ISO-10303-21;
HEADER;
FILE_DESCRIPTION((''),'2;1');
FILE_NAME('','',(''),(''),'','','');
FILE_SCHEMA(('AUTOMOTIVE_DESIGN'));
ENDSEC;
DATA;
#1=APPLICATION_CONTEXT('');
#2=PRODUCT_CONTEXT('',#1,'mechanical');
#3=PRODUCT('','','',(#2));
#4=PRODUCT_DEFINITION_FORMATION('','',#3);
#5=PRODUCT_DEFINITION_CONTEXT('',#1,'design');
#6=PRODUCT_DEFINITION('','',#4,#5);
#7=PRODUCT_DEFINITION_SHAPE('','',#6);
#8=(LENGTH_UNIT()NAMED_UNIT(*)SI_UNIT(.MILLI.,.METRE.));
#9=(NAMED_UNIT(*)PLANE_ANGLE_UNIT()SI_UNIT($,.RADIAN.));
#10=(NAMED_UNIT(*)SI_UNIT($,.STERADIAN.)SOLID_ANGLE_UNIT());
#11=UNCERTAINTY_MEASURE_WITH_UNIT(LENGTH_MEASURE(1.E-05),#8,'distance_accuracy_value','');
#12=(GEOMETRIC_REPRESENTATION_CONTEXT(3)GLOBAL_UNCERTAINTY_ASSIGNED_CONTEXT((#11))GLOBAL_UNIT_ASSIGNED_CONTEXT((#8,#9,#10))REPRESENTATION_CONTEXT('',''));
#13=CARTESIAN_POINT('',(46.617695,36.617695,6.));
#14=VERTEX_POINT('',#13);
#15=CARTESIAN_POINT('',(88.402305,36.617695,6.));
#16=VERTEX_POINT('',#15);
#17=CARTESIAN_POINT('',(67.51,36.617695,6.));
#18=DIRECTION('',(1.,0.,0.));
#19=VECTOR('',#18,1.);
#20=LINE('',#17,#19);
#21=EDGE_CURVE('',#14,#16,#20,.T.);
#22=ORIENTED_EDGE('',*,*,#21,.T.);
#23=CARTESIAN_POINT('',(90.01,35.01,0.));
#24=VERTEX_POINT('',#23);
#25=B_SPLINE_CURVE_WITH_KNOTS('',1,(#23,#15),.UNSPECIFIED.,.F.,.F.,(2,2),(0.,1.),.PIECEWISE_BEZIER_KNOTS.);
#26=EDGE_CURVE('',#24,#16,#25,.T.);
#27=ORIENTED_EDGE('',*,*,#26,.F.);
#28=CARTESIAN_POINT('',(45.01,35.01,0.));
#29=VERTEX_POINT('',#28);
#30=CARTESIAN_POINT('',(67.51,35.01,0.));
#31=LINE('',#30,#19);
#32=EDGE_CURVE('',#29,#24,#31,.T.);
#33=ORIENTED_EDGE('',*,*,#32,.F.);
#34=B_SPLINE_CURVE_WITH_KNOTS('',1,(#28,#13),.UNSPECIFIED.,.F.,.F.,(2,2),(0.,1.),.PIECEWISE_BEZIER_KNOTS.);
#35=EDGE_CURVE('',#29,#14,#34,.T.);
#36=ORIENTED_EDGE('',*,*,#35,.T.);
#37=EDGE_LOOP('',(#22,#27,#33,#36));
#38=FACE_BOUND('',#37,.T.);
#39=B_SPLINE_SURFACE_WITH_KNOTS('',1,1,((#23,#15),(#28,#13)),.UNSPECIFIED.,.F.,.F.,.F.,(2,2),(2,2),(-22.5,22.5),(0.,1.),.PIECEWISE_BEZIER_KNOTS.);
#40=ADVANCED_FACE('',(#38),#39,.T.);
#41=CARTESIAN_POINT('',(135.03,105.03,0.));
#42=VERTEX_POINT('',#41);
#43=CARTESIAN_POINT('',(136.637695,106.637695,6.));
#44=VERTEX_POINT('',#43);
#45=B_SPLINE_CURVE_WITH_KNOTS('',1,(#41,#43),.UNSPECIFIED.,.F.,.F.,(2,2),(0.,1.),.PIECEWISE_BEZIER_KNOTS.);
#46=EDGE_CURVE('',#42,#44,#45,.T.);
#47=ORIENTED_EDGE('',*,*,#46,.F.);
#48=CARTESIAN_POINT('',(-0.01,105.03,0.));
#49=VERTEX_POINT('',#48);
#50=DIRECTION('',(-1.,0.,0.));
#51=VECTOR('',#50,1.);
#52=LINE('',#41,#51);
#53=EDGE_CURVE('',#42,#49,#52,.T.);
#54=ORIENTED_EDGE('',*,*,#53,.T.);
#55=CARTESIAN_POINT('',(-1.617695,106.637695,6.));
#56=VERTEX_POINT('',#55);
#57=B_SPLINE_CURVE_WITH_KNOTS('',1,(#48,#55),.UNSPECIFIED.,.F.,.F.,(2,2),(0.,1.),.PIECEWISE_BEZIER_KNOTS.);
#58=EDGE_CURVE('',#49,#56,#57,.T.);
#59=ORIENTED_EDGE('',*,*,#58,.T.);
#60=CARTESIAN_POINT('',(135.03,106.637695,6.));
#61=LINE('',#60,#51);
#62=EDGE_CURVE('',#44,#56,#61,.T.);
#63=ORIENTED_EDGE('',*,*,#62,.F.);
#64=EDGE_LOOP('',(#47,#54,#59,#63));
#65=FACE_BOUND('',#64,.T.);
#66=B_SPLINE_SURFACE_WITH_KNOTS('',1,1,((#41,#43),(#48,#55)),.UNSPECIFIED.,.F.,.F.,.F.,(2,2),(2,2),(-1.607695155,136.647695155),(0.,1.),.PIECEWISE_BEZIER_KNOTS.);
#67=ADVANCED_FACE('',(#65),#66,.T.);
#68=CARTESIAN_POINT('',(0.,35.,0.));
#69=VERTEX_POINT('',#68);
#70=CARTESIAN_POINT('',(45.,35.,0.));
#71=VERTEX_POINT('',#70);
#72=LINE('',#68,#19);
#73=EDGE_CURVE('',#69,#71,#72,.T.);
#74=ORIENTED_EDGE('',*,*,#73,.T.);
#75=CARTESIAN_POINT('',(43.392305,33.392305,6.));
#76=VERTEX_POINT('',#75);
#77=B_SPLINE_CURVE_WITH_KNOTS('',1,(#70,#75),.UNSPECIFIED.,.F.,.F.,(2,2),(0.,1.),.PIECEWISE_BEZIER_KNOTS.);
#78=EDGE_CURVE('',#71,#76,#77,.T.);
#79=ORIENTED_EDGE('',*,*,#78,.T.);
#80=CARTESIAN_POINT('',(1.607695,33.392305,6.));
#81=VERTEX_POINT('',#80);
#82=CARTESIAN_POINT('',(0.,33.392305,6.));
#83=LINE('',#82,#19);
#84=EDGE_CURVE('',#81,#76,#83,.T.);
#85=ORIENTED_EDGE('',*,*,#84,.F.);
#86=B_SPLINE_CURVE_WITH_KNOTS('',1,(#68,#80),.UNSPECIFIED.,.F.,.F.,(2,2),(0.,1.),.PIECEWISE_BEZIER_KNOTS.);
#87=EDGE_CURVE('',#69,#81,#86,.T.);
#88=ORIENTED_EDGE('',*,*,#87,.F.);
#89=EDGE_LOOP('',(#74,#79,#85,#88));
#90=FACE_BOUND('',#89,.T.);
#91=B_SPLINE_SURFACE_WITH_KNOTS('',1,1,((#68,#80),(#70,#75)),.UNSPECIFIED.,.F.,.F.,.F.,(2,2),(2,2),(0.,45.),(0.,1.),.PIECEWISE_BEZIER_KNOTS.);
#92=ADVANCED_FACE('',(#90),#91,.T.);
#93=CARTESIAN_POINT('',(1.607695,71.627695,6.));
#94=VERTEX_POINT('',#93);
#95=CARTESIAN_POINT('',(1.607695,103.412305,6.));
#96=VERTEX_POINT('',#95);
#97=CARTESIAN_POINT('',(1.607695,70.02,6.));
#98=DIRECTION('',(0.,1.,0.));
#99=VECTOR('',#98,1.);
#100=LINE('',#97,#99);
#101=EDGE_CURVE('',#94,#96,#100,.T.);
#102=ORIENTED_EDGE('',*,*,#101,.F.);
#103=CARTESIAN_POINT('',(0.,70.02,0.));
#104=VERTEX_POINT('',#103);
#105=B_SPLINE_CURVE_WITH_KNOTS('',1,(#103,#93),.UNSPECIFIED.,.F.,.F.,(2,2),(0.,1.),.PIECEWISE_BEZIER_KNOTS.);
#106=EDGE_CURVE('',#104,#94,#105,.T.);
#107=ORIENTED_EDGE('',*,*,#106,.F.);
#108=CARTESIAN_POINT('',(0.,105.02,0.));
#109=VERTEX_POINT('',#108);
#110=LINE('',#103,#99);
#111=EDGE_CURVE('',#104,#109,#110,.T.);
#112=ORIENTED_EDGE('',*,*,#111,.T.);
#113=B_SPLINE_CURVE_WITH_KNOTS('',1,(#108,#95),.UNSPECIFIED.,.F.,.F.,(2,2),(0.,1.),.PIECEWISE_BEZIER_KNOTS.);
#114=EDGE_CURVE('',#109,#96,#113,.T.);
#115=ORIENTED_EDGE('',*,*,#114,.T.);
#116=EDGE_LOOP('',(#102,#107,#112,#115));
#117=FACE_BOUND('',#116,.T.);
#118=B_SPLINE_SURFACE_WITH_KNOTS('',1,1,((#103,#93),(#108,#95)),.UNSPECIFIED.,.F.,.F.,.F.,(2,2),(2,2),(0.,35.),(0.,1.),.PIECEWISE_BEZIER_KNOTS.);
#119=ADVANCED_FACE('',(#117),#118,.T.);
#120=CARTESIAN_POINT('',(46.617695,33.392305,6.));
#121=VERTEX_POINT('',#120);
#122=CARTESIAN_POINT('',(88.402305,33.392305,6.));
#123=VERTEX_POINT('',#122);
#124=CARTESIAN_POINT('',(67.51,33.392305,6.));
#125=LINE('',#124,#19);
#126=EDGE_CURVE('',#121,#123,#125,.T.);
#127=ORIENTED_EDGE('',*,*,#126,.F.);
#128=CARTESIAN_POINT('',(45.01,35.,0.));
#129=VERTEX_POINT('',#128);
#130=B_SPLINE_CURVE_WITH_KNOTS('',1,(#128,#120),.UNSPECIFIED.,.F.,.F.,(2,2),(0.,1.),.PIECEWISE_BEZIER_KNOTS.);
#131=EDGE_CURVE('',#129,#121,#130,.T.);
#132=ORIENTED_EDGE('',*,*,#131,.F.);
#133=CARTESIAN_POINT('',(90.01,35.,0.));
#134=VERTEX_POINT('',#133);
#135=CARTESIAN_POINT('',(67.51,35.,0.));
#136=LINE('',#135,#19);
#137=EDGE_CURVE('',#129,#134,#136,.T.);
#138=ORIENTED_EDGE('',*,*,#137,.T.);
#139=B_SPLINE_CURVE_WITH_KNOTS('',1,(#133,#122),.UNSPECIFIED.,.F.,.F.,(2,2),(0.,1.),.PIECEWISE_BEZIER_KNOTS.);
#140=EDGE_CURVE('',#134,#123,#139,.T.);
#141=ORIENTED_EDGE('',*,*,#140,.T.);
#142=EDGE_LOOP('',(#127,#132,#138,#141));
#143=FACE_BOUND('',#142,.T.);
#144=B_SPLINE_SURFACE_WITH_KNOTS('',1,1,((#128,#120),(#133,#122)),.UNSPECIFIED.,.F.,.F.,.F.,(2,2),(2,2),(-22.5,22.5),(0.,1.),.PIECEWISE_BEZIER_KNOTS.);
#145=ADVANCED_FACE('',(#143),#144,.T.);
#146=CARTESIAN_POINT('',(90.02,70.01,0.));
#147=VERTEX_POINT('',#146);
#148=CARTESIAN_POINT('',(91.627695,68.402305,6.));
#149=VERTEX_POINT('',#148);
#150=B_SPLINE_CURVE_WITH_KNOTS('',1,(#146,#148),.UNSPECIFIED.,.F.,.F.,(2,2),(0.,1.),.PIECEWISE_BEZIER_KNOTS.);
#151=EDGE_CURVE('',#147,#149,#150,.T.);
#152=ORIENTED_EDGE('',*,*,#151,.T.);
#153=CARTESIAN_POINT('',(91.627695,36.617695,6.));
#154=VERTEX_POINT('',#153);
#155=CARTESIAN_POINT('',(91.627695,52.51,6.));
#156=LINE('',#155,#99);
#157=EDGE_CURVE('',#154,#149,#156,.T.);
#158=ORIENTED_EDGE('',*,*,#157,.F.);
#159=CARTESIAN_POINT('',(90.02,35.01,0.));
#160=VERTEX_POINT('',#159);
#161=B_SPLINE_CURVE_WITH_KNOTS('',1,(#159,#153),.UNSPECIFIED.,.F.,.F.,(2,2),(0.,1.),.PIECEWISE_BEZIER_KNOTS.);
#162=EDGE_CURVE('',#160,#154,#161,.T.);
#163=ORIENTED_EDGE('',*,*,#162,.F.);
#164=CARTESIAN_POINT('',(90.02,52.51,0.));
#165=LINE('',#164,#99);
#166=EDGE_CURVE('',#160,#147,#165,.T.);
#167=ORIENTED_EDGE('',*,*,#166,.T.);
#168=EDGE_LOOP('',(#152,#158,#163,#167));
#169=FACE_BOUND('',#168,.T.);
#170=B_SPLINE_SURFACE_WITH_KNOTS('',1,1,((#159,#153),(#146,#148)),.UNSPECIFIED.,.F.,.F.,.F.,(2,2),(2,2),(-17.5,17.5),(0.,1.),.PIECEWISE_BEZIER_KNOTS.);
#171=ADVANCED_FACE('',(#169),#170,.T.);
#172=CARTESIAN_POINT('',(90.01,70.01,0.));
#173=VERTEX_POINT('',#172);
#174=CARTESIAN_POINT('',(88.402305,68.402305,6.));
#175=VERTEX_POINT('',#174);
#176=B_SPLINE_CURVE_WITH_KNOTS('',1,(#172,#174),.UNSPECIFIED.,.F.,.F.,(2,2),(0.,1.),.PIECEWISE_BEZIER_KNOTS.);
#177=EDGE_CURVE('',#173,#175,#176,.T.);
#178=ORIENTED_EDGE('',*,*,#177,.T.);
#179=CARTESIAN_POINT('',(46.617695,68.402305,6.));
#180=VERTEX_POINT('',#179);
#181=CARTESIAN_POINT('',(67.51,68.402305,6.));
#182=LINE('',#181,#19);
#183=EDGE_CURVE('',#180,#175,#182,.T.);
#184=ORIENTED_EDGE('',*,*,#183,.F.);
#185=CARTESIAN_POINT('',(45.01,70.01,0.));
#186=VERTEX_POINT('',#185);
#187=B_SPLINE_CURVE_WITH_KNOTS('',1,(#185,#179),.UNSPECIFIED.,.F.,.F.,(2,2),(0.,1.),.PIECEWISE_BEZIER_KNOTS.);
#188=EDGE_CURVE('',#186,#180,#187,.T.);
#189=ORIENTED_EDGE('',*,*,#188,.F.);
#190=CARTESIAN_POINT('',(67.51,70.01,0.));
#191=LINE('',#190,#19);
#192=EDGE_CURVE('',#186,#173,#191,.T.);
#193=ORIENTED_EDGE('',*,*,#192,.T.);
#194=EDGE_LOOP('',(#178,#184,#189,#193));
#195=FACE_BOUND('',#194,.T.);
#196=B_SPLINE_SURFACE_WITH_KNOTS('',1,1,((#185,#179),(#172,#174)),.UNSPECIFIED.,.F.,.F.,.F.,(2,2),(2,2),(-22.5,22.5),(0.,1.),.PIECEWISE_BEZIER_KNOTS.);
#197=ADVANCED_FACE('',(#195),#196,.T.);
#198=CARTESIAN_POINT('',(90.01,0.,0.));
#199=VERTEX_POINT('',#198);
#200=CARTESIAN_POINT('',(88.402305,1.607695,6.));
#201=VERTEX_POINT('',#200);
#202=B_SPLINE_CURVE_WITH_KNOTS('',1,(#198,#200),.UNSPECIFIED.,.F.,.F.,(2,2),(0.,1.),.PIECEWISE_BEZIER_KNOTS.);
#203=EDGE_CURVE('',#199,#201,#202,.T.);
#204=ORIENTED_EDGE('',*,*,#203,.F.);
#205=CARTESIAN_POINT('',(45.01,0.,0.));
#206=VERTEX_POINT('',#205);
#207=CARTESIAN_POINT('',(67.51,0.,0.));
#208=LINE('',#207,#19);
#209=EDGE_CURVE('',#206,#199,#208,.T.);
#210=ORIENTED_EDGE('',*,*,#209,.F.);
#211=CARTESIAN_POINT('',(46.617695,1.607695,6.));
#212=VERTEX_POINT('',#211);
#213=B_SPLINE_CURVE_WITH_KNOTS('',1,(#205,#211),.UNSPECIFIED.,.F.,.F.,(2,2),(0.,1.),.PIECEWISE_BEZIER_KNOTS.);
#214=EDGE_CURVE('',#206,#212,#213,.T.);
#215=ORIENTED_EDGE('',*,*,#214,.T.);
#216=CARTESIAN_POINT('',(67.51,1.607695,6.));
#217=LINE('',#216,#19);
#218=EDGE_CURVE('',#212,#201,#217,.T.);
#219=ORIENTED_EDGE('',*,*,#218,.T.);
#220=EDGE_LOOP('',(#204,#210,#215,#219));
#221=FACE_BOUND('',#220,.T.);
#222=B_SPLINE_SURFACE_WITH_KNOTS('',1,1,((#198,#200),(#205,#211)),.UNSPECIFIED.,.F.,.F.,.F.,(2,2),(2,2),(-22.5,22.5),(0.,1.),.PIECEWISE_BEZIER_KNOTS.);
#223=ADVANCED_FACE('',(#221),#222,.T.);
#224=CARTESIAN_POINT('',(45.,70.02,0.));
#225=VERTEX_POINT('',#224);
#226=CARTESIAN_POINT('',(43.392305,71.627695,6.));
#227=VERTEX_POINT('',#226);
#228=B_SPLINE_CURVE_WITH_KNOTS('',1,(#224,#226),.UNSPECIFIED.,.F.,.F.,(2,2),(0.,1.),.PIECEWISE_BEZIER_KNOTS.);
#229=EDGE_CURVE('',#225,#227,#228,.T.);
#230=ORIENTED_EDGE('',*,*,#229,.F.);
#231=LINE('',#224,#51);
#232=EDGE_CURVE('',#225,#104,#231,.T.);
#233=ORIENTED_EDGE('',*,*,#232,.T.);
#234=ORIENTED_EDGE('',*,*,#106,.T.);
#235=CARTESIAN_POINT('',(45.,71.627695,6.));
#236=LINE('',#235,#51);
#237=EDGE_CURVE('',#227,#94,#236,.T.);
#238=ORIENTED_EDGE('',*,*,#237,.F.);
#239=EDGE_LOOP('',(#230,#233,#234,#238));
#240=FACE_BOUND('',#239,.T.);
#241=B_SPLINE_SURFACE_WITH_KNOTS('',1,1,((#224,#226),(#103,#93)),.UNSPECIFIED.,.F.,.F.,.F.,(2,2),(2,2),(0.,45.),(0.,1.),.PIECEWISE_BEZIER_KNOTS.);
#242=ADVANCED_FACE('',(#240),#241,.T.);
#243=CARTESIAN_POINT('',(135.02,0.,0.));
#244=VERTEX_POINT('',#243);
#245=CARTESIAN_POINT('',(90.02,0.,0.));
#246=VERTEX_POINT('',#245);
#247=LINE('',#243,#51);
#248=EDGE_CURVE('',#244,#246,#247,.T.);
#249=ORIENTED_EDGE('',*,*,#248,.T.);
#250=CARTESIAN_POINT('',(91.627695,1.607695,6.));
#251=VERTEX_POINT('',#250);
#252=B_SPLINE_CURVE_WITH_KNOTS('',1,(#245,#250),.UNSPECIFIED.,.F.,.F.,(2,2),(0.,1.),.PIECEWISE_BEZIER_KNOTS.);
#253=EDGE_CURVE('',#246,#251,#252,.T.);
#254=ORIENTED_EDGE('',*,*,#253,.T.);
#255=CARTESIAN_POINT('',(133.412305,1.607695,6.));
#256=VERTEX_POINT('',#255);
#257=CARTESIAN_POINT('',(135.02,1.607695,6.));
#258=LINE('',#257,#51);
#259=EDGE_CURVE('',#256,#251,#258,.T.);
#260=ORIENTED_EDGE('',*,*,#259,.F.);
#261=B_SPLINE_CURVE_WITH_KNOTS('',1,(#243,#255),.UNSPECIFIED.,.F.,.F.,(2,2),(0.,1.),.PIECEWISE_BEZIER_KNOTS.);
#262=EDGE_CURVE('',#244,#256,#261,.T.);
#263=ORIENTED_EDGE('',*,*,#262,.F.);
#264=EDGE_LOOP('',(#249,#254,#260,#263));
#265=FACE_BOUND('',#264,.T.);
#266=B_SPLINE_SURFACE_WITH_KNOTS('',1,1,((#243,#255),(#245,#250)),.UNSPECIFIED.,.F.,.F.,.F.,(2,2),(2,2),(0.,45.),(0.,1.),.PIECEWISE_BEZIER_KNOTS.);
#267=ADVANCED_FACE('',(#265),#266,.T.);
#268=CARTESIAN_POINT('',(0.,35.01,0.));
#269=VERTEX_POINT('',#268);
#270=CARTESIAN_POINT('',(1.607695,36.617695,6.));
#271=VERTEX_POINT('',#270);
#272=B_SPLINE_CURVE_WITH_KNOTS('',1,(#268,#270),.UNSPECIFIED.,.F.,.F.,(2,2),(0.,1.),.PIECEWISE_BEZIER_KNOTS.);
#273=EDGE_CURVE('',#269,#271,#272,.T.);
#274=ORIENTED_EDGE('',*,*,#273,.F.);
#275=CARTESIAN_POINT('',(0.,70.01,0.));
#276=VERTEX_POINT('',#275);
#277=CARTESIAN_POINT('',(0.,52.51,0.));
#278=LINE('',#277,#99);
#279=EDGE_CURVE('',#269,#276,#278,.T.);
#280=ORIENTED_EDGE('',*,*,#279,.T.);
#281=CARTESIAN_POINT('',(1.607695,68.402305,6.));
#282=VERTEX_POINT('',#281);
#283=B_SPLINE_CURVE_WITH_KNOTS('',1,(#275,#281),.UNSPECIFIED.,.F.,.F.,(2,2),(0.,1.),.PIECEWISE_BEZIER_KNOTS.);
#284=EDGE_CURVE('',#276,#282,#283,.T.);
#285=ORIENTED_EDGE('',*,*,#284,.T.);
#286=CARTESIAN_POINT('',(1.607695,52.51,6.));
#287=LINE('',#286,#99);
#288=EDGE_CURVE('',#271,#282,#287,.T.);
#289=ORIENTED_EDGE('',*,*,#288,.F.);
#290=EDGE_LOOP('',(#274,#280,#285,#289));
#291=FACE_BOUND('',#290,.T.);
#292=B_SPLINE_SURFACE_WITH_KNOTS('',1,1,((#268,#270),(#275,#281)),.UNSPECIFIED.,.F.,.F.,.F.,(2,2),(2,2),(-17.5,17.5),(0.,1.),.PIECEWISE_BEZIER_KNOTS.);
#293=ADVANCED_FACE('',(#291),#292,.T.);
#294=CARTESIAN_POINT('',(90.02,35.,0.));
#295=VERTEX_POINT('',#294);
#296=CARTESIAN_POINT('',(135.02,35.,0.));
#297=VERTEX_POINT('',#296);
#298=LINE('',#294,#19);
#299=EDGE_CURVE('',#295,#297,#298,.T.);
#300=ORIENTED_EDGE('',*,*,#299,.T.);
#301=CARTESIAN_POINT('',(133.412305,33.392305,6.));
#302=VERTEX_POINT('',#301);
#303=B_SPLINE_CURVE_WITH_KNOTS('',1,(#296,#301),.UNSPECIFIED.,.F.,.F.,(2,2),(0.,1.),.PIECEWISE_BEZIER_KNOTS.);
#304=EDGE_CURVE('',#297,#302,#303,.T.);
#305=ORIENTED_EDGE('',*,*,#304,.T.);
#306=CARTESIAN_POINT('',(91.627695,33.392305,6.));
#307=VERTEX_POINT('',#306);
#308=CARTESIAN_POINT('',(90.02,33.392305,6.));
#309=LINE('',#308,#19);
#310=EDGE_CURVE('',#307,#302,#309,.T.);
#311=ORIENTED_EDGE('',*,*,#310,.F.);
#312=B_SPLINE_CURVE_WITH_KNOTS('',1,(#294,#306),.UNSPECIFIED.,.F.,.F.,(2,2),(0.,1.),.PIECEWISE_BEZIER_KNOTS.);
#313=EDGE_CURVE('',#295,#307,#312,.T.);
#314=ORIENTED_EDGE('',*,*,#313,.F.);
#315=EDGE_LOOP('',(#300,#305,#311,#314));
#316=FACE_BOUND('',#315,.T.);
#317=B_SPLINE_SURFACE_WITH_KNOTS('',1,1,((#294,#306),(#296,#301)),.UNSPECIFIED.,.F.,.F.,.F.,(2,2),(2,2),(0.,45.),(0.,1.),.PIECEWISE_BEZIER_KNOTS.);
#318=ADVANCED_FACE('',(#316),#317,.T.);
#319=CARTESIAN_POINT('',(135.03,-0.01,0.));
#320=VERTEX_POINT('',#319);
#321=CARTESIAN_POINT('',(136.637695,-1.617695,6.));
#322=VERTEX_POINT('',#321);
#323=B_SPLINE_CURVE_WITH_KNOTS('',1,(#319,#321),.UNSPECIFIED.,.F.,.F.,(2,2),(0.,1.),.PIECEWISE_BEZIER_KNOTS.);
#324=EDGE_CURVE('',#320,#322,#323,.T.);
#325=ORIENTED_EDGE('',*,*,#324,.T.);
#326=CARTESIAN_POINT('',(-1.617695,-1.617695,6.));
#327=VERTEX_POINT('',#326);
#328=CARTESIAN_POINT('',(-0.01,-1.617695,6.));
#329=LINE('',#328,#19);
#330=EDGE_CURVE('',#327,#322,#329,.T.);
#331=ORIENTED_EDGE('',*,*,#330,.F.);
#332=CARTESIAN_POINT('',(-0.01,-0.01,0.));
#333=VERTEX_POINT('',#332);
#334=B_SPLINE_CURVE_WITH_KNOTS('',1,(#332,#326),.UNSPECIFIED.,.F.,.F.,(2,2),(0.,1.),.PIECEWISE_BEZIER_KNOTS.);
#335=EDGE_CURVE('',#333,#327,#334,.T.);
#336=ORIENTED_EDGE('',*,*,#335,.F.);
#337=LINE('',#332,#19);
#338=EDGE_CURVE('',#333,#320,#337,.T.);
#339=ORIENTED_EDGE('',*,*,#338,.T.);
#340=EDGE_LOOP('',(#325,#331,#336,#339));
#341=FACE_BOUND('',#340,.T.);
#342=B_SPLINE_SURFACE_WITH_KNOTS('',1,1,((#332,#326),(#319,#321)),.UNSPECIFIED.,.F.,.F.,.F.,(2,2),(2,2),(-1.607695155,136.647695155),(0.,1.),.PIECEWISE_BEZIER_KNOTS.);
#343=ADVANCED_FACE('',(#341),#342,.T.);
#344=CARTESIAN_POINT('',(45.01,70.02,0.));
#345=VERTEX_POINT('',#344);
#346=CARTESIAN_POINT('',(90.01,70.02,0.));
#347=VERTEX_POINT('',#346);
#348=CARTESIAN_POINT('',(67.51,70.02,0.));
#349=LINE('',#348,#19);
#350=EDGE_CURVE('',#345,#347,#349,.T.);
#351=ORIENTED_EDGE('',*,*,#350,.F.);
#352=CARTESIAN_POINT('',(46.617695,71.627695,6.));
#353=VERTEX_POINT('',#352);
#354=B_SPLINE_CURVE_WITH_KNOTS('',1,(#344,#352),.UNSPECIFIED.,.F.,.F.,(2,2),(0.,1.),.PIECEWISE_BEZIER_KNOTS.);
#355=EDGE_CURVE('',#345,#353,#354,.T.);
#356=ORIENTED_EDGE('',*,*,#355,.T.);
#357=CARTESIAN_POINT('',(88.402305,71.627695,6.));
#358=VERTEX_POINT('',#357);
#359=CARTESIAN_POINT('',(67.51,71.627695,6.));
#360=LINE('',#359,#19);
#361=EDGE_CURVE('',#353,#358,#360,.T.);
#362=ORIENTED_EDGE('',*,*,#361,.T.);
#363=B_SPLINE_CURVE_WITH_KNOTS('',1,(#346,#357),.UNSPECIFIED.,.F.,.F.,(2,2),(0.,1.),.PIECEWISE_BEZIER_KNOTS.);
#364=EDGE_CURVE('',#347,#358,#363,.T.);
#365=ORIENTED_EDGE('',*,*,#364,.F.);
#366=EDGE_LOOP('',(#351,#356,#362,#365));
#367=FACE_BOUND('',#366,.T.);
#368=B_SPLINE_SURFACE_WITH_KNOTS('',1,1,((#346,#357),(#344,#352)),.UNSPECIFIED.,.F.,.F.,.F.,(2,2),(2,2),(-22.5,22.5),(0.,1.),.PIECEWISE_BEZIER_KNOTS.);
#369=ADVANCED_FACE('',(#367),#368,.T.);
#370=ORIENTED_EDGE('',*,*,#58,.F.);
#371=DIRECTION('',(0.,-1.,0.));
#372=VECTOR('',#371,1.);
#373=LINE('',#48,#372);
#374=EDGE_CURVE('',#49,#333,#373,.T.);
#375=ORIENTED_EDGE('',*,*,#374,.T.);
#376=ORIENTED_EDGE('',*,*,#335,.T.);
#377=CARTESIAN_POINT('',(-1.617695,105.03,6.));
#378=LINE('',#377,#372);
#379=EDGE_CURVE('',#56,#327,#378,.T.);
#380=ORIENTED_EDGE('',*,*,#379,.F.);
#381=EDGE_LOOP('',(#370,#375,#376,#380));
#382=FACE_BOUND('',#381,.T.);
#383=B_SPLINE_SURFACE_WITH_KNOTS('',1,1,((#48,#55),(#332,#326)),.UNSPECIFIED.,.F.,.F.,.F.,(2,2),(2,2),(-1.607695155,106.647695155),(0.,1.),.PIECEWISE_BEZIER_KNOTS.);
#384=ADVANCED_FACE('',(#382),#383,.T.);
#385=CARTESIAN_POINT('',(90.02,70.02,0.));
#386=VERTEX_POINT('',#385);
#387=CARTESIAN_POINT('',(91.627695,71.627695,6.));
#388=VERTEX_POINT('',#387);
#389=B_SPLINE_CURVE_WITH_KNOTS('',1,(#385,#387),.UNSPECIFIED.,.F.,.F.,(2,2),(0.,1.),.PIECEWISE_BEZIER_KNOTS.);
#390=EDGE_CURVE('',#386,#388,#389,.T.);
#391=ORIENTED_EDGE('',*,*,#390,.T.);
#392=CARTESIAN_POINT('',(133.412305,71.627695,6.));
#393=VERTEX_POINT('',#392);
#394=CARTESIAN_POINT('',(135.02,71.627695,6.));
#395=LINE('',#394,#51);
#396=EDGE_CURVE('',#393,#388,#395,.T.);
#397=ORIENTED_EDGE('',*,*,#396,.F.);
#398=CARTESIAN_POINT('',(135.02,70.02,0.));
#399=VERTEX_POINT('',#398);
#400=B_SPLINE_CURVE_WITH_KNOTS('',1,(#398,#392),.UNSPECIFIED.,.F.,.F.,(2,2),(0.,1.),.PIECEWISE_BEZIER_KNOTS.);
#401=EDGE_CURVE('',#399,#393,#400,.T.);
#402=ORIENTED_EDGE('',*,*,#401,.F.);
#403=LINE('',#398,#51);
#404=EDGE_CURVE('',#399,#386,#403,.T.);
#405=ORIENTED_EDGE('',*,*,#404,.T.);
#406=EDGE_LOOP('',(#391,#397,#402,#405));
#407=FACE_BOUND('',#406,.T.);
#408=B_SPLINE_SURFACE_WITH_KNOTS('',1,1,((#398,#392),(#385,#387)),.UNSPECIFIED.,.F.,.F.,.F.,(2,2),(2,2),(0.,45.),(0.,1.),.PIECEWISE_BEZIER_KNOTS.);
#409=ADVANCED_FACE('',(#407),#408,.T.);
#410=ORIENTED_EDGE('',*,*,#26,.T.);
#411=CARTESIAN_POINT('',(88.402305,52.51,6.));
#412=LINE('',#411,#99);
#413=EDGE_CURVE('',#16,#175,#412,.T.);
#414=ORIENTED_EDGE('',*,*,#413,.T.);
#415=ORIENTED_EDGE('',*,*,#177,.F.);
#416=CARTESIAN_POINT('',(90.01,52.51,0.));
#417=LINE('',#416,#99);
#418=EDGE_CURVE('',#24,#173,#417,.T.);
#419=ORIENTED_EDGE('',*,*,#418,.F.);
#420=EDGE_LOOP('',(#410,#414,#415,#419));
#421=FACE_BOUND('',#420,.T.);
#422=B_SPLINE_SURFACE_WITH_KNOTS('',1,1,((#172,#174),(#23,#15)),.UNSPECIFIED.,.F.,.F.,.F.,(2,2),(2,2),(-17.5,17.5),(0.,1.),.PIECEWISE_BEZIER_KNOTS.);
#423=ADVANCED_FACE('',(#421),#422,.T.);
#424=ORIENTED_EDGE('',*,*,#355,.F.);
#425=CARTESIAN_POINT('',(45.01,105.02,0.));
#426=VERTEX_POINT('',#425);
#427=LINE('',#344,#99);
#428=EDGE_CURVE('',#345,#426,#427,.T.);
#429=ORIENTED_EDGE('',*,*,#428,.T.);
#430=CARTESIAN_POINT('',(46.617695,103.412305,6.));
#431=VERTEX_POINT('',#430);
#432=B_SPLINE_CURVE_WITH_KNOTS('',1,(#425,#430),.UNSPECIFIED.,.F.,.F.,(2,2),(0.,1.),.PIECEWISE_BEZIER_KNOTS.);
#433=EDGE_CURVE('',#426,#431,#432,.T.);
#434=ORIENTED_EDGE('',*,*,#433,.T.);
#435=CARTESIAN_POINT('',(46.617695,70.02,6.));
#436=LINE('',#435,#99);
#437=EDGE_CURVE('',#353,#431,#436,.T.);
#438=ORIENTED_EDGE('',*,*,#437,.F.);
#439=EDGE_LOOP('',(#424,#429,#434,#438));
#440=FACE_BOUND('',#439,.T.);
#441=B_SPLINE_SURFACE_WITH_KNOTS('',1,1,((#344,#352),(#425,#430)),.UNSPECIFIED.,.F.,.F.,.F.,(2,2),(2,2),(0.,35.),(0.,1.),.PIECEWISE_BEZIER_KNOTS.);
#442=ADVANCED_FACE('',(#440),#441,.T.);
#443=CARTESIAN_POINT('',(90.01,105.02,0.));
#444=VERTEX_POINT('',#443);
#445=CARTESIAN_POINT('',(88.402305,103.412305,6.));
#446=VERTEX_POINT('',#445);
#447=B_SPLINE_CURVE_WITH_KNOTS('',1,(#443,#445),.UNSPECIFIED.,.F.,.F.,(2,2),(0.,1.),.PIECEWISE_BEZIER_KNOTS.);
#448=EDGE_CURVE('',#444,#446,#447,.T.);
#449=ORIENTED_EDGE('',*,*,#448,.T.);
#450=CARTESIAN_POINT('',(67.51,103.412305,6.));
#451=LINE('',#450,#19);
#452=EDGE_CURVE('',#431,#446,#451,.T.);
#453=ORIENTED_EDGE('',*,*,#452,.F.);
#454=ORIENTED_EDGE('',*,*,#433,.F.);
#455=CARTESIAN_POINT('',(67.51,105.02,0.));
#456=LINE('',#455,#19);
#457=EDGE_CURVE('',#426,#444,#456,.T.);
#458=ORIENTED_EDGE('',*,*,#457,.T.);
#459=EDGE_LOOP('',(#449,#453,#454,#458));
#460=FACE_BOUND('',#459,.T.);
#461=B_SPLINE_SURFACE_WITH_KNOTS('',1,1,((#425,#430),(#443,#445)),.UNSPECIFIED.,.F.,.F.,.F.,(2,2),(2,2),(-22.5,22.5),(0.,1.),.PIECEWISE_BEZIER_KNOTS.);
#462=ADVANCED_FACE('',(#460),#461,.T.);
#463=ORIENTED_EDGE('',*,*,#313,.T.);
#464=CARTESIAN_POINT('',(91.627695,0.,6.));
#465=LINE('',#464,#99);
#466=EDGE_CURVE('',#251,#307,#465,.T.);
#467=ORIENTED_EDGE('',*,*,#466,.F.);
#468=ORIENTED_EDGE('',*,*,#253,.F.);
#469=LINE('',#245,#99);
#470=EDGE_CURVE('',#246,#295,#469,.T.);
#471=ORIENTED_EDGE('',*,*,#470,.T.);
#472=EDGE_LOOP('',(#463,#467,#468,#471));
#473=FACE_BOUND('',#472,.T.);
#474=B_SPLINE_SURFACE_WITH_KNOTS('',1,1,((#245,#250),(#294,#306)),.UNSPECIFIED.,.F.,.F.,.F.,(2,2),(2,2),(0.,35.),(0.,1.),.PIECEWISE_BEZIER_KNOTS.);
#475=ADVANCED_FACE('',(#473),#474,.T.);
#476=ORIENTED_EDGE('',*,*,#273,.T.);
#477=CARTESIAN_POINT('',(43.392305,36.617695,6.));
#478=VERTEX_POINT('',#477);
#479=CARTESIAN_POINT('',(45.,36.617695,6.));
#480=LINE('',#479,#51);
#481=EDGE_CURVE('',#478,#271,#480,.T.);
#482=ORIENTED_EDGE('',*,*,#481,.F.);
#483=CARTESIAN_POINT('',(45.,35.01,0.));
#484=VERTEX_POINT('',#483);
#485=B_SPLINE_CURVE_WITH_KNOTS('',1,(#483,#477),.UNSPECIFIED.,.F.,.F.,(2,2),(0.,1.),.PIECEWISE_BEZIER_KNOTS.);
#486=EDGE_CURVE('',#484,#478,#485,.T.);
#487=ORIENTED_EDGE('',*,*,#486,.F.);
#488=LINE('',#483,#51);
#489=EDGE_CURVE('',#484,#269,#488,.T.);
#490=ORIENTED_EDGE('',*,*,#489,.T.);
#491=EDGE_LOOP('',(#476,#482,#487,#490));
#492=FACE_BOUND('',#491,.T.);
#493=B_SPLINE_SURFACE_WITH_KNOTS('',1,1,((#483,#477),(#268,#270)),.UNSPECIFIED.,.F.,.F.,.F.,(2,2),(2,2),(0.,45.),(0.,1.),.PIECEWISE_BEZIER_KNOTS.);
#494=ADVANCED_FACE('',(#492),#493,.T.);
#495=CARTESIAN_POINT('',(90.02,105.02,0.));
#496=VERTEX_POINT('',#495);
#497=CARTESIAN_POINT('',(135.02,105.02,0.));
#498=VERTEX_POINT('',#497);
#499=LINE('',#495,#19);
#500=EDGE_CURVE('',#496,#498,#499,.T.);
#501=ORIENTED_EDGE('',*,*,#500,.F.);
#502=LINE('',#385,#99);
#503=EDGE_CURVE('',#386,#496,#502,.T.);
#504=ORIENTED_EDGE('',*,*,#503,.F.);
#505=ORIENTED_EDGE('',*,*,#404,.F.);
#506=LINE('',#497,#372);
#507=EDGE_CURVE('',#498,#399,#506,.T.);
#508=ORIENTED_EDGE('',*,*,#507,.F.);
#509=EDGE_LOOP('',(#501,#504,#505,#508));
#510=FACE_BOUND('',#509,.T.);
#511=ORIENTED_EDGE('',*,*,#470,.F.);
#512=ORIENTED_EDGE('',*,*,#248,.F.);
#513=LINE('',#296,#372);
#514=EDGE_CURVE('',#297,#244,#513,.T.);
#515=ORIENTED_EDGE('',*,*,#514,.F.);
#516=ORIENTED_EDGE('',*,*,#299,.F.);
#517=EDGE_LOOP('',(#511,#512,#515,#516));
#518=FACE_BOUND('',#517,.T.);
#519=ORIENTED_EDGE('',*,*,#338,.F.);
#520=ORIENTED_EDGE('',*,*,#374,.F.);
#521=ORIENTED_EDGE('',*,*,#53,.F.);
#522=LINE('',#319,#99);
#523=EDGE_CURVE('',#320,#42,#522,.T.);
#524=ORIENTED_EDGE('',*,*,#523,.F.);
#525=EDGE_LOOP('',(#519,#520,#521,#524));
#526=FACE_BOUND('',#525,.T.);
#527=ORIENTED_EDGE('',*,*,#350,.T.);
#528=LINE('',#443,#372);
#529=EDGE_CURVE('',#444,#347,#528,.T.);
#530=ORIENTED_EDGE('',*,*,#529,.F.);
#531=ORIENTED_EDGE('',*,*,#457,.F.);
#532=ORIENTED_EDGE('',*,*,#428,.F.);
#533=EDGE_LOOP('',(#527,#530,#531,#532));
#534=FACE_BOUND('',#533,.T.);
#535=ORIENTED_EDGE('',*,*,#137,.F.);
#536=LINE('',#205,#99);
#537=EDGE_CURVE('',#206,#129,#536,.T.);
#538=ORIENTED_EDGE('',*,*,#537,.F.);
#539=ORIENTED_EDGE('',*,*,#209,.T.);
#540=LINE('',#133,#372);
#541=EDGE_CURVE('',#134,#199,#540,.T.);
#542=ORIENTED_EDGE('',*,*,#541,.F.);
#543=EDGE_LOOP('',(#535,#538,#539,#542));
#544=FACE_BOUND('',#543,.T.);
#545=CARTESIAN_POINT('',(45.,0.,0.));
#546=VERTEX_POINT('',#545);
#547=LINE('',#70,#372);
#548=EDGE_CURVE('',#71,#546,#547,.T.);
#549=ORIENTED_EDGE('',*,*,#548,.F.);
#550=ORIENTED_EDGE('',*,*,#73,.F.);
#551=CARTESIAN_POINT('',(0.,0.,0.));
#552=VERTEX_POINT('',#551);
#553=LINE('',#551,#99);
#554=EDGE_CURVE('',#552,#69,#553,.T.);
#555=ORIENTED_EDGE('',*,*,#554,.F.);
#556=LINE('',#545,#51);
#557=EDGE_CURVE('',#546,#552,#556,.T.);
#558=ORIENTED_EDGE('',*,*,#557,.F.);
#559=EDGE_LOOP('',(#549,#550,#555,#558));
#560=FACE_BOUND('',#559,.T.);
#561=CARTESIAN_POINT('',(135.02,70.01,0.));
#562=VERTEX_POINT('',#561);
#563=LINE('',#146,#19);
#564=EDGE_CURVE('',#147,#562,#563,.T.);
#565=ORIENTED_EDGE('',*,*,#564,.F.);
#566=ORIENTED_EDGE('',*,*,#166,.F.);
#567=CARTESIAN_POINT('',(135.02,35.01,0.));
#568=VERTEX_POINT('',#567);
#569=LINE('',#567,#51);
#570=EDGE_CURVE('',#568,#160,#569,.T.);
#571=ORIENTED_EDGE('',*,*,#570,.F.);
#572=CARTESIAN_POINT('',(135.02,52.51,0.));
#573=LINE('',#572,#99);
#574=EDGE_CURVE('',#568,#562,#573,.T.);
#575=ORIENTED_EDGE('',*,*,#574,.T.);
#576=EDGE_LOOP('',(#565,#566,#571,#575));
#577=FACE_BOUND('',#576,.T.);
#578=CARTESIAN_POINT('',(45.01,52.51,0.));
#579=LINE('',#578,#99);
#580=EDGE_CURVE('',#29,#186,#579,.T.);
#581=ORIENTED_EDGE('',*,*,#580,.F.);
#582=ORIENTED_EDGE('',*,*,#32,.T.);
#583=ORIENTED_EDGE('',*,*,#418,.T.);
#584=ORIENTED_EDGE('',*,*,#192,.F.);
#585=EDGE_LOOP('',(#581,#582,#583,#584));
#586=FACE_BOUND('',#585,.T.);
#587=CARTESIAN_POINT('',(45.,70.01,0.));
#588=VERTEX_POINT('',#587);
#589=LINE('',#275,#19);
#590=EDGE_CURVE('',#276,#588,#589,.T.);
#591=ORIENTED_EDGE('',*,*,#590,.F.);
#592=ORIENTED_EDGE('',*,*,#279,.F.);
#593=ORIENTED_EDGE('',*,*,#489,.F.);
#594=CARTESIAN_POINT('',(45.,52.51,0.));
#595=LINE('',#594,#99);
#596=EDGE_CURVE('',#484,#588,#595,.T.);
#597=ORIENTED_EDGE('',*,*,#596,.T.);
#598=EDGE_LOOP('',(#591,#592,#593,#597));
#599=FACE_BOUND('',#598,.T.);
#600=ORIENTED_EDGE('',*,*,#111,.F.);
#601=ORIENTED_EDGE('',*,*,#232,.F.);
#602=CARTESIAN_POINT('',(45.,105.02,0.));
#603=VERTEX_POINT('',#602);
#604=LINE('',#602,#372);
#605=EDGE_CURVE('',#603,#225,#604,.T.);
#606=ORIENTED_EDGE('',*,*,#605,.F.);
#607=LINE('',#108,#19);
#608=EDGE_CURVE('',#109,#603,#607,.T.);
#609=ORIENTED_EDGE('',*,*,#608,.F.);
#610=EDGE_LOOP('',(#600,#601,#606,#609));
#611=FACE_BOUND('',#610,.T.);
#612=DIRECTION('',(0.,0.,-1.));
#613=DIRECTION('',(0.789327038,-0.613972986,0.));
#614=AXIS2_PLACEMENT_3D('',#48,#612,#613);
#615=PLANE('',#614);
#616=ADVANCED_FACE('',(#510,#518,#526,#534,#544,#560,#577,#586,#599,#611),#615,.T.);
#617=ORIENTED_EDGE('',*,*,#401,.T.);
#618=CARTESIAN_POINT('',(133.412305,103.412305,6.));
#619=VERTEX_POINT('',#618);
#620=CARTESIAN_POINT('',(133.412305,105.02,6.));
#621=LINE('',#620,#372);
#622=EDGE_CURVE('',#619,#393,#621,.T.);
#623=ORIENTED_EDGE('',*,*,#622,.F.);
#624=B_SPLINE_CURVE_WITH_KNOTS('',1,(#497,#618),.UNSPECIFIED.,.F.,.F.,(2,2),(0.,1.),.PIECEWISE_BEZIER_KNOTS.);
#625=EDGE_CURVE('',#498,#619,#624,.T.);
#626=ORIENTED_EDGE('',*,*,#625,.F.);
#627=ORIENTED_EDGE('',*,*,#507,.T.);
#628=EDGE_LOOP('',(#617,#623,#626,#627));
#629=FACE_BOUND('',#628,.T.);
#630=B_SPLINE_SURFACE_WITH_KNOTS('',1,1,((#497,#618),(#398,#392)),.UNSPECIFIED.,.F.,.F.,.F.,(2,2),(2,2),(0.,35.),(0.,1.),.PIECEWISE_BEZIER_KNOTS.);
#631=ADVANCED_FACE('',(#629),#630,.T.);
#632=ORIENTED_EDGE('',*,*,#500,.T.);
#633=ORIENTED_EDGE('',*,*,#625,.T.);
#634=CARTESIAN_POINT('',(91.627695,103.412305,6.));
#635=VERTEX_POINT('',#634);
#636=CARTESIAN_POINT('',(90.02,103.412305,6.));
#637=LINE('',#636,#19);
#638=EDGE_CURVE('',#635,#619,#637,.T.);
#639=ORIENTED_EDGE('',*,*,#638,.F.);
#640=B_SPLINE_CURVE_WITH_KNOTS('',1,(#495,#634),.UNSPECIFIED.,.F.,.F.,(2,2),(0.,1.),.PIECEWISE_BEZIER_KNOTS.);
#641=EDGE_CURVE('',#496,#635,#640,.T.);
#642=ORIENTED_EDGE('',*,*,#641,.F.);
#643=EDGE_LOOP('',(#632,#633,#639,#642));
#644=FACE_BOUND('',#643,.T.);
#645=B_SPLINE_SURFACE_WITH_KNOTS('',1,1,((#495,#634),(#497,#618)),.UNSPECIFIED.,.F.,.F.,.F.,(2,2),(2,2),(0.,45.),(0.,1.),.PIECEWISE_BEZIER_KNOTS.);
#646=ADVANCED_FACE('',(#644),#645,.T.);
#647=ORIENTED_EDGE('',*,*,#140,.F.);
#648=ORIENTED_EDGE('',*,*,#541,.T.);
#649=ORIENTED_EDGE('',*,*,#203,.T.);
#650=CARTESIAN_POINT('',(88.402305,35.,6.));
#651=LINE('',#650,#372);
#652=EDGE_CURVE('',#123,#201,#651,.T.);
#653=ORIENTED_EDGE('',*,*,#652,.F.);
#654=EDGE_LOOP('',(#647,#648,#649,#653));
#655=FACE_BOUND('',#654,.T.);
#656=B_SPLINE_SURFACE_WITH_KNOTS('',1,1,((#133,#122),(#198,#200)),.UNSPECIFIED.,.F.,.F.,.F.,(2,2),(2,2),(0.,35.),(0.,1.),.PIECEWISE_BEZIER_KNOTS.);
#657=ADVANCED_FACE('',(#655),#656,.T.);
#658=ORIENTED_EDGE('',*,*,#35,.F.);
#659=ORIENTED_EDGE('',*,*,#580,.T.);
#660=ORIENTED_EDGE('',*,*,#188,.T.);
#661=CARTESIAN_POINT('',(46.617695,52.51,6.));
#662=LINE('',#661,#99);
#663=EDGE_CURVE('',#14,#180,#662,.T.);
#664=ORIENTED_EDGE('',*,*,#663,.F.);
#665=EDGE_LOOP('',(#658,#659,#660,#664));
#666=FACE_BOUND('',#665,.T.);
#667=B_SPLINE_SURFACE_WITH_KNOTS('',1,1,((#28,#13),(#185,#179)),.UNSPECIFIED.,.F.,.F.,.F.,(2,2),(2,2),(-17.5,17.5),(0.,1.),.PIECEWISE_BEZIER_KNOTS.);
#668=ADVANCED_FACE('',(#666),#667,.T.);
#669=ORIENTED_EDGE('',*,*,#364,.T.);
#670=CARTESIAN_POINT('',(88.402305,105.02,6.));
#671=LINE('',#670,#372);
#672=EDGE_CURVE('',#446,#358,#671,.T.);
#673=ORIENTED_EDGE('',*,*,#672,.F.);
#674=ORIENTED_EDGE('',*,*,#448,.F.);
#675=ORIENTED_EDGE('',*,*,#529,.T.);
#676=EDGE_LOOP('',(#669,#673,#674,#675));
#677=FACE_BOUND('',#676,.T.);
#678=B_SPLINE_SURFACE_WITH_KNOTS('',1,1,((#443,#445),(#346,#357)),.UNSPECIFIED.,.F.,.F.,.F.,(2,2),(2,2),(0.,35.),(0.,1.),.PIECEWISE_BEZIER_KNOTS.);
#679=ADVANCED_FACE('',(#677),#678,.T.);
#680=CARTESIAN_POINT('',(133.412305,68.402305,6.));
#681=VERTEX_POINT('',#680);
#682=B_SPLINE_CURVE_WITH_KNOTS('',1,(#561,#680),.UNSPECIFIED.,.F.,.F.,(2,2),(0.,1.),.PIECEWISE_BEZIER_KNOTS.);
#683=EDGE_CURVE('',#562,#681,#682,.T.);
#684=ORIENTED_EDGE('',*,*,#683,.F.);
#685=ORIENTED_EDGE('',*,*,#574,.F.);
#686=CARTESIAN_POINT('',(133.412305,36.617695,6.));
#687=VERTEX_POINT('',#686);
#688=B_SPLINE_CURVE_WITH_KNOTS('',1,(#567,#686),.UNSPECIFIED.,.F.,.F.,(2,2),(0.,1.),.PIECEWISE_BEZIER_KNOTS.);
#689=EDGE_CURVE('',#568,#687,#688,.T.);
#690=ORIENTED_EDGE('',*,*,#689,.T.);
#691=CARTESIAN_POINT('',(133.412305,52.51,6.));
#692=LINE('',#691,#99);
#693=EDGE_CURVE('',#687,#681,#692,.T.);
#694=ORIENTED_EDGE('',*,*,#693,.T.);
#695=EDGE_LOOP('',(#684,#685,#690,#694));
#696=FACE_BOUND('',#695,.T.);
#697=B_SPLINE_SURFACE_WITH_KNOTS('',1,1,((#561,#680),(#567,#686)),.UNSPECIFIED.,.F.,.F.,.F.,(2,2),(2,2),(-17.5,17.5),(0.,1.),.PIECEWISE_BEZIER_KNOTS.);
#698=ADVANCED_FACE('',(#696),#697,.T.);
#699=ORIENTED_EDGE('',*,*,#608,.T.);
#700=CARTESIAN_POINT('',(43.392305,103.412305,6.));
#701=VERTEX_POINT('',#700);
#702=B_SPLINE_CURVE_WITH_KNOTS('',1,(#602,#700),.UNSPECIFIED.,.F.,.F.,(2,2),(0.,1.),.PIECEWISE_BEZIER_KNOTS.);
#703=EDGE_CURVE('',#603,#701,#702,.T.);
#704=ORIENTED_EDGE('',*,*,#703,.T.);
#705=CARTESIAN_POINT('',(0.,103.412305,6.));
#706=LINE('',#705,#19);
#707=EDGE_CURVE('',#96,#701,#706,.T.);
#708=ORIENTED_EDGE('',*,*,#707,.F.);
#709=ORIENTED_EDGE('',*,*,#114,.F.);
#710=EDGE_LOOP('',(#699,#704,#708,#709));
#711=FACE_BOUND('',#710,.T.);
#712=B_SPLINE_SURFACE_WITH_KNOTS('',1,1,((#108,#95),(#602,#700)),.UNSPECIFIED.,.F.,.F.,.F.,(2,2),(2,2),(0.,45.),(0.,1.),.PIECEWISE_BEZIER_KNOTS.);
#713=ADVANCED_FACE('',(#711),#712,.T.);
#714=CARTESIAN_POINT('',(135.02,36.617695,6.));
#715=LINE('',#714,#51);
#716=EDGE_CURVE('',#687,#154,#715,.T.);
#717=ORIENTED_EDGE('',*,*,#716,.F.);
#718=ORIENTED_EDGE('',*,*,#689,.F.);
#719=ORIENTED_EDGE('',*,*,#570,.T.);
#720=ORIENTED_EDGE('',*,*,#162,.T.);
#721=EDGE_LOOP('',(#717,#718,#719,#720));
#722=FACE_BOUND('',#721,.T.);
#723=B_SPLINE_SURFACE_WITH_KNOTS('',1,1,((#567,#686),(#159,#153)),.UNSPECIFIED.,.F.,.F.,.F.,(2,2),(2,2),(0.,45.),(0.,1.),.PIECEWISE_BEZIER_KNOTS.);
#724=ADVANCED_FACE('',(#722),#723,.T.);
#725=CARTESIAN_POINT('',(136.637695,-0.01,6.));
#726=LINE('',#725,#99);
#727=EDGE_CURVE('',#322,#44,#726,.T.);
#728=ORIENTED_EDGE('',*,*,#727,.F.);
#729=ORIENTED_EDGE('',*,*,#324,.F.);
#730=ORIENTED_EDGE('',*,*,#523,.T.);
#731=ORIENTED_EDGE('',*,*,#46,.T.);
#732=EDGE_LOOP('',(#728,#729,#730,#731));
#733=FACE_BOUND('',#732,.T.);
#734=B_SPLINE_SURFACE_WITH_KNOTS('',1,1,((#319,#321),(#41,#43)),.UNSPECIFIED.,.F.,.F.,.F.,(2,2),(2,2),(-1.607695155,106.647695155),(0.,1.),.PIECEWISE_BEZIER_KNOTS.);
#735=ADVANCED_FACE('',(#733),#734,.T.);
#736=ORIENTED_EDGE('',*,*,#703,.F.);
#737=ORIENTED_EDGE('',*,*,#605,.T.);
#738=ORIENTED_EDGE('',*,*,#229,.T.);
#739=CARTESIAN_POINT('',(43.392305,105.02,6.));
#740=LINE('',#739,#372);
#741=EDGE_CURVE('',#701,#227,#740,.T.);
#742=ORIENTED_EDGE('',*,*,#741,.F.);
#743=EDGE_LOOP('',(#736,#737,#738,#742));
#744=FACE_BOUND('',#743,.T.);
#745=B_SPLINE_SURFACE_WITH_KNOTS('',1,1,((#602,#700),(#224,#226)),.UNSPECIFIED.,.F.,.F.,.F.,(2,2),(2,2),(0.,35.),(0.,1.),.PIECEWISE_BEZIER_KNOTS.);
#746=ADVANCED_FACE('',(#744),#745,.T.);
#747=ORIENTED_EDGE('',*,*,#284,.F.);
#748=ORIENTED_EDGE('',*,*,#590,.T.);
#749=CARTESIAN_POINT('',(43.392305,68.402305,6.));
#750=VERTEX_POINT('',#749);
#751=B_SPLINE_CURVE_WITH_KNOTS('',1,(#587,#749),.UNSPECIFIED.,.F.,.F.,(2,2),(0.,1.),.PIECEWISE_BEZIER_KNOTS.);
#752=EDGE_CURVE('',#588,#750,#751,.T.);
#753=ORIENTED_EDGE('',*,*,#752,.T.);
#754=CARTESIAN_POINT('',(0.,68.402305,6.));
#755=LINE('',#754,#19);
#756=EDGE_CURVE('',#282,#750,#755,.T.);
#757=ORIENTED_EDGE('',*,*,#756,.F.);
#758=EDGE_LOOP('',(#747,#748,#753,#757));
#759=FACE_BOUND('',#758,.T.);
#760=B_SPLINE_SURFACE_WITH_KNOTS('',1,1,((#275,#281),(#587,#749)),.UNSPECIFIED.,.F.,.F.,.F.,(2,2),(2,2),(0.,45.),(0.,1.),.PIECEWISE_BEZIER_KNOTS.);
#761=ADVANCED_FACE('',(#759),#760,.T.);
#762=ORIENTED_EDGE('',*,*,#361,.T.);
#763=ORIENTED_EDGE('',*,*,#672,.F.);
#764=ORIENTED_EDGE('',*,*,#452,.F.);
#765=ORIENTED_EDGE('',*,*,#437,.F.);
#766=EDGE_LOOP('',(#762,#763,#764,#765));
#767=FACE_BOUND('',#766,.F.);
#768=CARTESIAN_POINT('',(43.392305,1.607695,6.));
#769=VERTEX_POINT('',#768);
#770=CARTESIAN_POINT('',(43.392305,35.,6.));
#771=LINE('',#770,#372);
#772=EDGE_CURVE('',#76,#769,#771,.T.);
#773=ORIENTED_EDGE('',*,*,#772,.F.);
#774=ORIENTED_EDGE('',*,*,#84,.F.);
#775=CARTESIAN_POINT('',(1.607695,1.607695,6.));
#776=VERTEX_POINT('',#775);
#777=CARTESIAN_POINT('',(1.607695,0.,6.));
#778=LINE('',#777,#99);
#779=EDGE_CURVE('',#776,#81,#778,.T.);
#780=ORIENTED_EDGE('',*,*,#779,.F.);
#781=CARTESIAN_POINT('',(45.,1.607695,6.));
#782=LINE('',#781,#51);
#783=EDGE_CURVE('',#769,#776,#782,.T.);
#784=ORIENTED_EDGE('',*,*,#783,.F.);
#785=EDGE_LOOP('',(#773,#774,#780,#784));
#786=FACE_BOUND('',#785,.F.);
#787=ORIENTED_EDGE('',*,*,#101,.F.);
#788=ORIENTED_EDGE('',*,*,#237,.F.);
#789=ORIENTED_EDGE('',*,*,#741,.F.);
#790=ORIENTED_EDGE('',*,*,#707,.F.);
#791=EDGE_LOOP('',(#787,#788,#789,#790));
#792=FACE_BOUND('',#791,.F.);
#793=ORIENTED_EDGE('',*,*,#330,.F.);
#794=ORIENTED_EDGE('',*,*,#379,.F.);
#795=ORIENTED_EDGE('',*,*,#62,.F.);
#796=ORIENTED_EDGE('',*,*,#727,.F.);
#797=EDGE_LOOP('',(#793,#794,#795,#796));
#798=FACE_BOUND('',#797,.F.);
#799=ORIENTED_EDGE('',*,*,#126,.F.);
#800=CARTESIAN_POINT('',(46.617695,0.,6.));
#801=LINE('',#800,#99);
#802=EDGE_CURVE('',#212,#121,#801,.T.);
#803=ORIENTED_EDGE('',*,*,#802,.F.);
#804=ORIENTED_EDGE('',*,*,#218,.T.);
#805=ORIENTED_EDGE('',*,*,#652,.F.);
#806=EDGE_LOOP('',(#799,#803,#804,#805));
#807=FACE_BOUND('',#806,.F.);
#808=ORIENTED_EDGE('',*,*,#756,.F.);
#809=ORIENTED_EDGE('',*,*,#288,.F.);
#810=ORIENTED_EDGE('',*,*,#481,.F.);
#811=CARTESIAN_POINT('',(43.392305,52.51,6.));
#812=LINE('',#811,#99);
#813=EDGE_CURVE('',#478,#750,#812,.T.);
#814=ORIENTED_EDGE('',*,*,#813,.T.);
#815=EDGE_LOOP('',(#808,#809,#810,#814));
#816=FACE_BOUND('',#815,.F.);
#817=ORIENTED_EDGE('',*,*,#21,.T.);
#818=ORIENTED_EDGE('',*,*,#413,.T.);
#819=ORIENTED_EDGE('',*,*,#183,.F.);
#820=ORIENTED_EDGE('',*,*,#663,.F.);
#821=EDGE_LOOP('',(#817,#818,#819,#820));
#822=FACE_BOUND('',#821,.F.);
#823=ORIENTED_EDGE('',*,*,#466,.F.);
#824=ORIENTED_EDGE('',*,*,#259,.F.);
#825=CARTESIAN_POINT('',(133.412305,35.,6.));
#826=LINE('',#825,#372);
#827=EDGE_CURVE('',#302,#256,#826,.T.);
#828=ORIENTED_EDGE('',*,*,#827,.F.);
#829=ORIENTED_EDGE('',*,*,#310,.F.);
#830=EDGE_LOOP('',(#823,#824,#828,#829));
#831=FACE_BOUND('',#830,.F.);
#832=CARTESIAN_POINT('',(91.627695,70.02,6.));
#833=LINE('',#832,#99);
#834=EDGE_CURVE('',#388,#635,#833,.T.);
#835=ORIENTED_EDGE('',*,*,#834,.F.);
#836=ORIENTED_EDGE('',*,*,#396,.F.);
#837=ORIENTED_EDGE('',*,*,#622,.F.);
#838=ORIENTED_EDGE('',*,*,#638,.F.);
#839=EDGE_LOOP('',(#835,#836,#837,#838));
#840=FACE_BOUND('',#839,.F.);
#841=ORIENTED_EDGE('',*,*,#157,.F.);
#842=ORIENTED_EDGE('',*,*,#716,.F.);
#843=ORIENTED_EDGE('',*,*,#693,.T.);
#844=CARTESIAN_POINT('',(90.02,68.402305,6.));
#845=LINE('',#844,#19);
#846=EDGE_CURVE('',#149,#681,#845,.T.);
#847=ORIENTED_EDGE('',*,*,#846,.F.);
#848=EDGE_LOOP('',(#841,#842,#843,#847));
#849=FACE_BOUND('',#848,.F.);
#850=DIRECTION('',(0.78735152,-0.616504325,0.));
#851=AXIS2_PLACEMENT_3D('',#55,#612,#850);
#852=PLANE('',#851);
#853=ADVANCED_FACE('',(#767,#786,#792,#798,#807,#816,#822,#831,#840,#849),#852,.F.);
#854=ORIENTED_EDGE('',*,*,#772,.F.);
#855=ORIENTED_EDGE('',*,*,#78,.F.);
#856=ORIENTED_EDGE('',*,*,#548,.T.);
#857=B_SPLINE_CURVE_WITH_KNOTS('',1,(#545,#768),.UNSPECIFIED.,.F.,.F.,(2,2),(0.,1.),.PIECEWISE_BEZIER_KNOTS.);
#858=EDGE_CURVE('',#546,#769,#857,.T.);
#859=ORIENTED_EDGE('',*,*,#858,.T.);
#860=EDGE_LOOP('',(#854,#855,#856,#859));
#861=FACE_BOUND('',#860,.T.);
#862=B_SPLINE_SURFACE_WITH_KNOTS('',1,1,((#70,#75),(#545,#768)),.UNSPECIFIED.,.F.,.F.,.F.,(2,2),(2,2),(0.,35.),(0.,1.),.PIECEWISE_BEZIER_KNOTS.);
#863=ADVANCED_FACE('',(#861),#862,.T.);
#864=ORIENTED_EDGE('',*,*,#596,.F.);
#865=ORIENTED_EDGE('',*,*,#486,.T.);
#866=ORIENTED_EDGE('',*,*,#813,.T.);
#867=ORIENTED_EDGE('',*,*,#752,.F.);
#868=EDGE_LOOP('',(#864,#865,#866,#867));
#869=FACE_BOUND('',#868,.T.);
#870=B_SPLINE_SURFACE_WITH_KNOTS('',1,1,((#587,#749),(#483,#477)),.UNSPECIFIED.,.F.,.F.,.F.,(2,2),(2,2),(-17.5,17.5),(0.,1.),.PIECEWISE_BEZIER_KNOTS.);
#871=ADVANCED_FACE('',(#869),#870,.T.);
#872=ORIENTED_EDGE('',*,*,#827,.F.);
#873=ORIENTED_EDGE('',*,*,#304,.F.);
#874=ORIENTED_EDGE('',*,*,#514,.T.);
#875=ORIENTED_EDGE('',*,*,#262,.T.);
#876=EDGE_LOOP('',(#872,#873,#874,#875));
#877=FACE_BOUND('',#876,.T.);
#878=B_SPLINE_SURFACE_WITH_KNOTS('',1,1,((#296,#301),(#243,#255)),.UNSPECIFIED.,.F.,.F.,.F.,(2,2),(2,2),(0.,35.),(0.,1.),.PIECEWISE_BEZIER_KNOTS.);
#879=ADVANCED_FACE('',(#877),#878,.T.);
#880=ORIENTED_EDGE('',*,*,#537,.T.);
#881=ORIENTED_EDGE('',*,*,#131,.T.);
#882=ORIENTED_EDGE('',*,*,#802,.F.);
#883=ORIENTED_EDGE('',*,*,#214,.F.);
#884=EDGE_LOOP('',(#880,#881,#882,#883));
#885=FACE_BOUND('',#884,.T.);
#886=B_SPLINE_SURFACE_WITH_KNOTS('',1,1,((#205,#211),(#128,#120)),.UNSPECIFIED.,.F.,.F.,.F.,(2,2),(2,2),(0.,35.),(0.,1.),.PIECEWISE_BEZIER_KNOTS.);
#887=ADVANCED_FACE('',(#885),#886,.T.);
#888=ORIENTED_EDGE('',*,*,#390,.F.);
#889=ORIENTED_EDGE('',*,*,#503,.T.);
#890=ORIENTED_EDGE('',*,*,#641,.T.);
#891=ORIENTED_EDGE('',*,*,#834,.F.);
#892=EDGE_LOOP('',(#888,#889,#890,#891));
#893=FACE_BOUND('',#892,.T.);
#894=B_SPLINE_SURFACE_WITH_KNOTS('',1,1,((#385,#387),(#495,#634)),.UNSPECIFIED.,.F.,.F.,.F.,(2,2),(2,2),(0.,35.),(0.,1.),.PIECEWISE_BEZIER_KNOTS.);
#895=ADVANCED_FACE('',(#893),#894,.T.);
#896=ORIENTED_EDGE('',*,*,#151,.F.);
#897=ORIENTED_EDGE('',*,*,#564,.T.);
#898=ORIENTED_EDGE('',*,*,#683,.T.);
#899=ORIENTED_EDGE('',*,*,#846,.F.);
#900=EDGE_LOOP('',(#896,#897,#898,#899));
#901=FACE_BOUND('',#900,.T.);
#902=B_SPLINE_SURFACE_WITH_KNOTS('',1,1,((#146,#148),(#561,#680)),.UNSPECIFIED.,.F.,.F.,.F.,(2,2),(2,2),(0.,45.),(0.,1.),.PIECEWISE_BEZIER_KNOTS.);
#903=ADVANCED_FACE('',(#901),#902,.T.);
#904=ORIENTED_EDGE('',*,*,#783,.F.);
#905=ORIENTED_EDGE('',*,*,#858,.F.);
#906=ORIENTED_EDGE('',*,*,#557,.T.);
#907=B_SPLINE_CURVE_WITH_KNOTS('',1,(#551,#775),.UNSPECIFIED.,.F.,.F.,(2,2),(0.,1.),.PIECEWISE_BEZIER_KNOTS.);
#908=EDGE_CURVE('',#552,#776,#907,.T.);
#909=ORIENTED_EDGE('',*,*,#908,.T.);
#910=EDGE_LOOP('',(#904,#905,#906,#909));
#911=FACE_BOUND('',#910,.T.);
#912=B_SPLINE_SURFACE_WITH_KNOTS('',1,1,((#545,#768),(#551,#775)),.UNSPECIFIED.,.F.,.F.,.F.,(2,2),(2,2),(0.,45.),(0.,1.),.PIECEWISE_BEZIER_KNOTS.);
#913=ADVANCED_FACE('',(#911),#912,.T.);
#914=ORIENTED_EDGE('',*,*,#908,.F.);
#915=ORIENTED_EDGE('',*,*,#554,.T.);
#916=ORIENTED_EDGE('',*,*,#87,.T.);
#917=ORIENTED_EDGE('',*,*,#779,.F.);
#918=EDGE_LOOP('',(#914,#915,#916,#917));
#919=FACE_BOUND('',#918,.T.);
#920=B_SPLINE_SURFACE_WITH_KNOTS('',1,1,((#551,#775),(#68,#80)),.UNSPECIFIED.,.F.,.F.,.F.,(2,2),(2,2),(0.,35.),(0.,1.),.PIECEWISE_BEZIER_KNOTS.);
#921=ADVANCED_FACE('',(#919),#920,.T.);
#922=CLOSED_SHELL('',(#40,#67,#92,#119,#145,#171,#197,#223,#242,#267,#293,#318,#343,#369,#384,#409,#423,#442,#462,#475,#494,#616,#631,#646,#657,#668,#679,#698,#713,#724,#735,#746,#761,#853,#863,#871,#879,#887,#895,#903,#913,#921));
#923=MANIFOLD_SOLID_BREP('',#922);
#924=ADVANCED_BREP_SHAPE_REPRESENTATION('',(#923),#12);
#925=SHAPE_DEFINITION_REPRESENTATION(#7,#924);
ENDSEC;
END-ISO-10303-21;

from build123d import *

# Parameters (mm, degrees)
F0_W     = 45
F0_H     = 0.01
F0_W_2   = 0.01
F0_H_2   = 35
F1_DEPTH = 6
F1_TAPER = -15


with BuildPart() as f1:
    # F0 (on Top) → F1 (new body)
    with BuildSketch(Plane.XY):
        with Locations((67.51, 105.025)):
            Rectangle(F0_W, F0_H)
        Polygon((90.02, 0), (90.02, -0.01), (135.03, -0.01), (135.03, 35), (135.02, 35), (135.02, 0), align=None)
        Polygon((-0.01, 105.03), (-0.01, 70.02), (0, 70.02), (0, 105.02), (45, 105.02), (45, 105.03), align=None)
        with Locations((-0.005, 52.51)):
            Rectangle(F0_W_2, F0_H_2)
        Polygon((45, 0), (0, 0), (0, 35), (-0.01, 35), (-0.01, -0.01), (45, -0.01), align=None)
        Polygon((90.02, 105.03), (90.02, 105.02), (135.02, 105.02), (135.02, 70.02), (135.03, 70.02), (135.03, 105.03), align=None)
        with Locations((135.025, 52.51)):
            Rectangle(F0_W_2, F0_H_2)
        with Locations((67.51, -0.005)):
            Rectangle(F0_W, F0_H)
        Polygon((-0.01, 35), (0, 35), (45, 35), (45, 35.01), (0, 35.01), (-0.01, 35.01), align=None)
        with Locations((90.015, 52.51)):
            Rectangle(F0_W_2, F0_H_2)
        Polygon((90.02, 35), (90.01, 35), (90.01, 0), (90.01, -0.01), (90.02, -0.01), (90.02, 0), align=None)
        Polygon((45, 105.02), (45, 70.02), (45.01, 70.02), (45.01, 105.02), (45.01, 105.03), (45, 105.03), align=None)
        Polygon((45, 35), (45, 0), (45, -0.01), (45.01, -0.01), (45.01, 0), (45.01, 35), align=None)
        Polygon((90.01, 105.02), (90.01, 70.02), (90.02, 70.02), (90.02, 105.02), (90.02, 105.03), (90.01, 105.03), align=None)
        with Locations((67.51, 70.015)):
            Rectangle(F0_W, F0_H)
        with Locations((45.005, 52.51)):
            Rectangle(F0_W_2, F0_H_2)
        with Locations((67.51, 35.005)):
            Rectangle(F0_W, F0_H)
        Polygon((90.02, 70.02), (90.02, 70.01), (135.02, 70.01), (135.03, 70.01), (135.03, 70.02), (135.02, 70.02), align=None)
        Polygon((90.02, 35.01), (90.02, 35), (135.02, 35), (135.03, 35), (135.03, 35.01), (135.02, 35.01), align=None)
        Polygon((0, 70.01), (45, 70.01), (45, 70.02), (0, 70.02), (-0.01, 70.02), (-0.01, 70.01), align=None)
        with Locations((90.015, 35.005)):
            Rectangle(F0_W_2, F0_H)
        with Locations((45.005, 70.015)):
            Rectangle(F0_W_2, F0_H)
        with Locations((45.005, 35.005)):
            Rectangle(F0_W_2, F0_H)
        with Locations((90.015, 70.015)):
            Rectangle(F0_W_2, F0_H)
    extrude(amount=F1_DEPTH, taper=F1_TAPER)


solid = f1.part
